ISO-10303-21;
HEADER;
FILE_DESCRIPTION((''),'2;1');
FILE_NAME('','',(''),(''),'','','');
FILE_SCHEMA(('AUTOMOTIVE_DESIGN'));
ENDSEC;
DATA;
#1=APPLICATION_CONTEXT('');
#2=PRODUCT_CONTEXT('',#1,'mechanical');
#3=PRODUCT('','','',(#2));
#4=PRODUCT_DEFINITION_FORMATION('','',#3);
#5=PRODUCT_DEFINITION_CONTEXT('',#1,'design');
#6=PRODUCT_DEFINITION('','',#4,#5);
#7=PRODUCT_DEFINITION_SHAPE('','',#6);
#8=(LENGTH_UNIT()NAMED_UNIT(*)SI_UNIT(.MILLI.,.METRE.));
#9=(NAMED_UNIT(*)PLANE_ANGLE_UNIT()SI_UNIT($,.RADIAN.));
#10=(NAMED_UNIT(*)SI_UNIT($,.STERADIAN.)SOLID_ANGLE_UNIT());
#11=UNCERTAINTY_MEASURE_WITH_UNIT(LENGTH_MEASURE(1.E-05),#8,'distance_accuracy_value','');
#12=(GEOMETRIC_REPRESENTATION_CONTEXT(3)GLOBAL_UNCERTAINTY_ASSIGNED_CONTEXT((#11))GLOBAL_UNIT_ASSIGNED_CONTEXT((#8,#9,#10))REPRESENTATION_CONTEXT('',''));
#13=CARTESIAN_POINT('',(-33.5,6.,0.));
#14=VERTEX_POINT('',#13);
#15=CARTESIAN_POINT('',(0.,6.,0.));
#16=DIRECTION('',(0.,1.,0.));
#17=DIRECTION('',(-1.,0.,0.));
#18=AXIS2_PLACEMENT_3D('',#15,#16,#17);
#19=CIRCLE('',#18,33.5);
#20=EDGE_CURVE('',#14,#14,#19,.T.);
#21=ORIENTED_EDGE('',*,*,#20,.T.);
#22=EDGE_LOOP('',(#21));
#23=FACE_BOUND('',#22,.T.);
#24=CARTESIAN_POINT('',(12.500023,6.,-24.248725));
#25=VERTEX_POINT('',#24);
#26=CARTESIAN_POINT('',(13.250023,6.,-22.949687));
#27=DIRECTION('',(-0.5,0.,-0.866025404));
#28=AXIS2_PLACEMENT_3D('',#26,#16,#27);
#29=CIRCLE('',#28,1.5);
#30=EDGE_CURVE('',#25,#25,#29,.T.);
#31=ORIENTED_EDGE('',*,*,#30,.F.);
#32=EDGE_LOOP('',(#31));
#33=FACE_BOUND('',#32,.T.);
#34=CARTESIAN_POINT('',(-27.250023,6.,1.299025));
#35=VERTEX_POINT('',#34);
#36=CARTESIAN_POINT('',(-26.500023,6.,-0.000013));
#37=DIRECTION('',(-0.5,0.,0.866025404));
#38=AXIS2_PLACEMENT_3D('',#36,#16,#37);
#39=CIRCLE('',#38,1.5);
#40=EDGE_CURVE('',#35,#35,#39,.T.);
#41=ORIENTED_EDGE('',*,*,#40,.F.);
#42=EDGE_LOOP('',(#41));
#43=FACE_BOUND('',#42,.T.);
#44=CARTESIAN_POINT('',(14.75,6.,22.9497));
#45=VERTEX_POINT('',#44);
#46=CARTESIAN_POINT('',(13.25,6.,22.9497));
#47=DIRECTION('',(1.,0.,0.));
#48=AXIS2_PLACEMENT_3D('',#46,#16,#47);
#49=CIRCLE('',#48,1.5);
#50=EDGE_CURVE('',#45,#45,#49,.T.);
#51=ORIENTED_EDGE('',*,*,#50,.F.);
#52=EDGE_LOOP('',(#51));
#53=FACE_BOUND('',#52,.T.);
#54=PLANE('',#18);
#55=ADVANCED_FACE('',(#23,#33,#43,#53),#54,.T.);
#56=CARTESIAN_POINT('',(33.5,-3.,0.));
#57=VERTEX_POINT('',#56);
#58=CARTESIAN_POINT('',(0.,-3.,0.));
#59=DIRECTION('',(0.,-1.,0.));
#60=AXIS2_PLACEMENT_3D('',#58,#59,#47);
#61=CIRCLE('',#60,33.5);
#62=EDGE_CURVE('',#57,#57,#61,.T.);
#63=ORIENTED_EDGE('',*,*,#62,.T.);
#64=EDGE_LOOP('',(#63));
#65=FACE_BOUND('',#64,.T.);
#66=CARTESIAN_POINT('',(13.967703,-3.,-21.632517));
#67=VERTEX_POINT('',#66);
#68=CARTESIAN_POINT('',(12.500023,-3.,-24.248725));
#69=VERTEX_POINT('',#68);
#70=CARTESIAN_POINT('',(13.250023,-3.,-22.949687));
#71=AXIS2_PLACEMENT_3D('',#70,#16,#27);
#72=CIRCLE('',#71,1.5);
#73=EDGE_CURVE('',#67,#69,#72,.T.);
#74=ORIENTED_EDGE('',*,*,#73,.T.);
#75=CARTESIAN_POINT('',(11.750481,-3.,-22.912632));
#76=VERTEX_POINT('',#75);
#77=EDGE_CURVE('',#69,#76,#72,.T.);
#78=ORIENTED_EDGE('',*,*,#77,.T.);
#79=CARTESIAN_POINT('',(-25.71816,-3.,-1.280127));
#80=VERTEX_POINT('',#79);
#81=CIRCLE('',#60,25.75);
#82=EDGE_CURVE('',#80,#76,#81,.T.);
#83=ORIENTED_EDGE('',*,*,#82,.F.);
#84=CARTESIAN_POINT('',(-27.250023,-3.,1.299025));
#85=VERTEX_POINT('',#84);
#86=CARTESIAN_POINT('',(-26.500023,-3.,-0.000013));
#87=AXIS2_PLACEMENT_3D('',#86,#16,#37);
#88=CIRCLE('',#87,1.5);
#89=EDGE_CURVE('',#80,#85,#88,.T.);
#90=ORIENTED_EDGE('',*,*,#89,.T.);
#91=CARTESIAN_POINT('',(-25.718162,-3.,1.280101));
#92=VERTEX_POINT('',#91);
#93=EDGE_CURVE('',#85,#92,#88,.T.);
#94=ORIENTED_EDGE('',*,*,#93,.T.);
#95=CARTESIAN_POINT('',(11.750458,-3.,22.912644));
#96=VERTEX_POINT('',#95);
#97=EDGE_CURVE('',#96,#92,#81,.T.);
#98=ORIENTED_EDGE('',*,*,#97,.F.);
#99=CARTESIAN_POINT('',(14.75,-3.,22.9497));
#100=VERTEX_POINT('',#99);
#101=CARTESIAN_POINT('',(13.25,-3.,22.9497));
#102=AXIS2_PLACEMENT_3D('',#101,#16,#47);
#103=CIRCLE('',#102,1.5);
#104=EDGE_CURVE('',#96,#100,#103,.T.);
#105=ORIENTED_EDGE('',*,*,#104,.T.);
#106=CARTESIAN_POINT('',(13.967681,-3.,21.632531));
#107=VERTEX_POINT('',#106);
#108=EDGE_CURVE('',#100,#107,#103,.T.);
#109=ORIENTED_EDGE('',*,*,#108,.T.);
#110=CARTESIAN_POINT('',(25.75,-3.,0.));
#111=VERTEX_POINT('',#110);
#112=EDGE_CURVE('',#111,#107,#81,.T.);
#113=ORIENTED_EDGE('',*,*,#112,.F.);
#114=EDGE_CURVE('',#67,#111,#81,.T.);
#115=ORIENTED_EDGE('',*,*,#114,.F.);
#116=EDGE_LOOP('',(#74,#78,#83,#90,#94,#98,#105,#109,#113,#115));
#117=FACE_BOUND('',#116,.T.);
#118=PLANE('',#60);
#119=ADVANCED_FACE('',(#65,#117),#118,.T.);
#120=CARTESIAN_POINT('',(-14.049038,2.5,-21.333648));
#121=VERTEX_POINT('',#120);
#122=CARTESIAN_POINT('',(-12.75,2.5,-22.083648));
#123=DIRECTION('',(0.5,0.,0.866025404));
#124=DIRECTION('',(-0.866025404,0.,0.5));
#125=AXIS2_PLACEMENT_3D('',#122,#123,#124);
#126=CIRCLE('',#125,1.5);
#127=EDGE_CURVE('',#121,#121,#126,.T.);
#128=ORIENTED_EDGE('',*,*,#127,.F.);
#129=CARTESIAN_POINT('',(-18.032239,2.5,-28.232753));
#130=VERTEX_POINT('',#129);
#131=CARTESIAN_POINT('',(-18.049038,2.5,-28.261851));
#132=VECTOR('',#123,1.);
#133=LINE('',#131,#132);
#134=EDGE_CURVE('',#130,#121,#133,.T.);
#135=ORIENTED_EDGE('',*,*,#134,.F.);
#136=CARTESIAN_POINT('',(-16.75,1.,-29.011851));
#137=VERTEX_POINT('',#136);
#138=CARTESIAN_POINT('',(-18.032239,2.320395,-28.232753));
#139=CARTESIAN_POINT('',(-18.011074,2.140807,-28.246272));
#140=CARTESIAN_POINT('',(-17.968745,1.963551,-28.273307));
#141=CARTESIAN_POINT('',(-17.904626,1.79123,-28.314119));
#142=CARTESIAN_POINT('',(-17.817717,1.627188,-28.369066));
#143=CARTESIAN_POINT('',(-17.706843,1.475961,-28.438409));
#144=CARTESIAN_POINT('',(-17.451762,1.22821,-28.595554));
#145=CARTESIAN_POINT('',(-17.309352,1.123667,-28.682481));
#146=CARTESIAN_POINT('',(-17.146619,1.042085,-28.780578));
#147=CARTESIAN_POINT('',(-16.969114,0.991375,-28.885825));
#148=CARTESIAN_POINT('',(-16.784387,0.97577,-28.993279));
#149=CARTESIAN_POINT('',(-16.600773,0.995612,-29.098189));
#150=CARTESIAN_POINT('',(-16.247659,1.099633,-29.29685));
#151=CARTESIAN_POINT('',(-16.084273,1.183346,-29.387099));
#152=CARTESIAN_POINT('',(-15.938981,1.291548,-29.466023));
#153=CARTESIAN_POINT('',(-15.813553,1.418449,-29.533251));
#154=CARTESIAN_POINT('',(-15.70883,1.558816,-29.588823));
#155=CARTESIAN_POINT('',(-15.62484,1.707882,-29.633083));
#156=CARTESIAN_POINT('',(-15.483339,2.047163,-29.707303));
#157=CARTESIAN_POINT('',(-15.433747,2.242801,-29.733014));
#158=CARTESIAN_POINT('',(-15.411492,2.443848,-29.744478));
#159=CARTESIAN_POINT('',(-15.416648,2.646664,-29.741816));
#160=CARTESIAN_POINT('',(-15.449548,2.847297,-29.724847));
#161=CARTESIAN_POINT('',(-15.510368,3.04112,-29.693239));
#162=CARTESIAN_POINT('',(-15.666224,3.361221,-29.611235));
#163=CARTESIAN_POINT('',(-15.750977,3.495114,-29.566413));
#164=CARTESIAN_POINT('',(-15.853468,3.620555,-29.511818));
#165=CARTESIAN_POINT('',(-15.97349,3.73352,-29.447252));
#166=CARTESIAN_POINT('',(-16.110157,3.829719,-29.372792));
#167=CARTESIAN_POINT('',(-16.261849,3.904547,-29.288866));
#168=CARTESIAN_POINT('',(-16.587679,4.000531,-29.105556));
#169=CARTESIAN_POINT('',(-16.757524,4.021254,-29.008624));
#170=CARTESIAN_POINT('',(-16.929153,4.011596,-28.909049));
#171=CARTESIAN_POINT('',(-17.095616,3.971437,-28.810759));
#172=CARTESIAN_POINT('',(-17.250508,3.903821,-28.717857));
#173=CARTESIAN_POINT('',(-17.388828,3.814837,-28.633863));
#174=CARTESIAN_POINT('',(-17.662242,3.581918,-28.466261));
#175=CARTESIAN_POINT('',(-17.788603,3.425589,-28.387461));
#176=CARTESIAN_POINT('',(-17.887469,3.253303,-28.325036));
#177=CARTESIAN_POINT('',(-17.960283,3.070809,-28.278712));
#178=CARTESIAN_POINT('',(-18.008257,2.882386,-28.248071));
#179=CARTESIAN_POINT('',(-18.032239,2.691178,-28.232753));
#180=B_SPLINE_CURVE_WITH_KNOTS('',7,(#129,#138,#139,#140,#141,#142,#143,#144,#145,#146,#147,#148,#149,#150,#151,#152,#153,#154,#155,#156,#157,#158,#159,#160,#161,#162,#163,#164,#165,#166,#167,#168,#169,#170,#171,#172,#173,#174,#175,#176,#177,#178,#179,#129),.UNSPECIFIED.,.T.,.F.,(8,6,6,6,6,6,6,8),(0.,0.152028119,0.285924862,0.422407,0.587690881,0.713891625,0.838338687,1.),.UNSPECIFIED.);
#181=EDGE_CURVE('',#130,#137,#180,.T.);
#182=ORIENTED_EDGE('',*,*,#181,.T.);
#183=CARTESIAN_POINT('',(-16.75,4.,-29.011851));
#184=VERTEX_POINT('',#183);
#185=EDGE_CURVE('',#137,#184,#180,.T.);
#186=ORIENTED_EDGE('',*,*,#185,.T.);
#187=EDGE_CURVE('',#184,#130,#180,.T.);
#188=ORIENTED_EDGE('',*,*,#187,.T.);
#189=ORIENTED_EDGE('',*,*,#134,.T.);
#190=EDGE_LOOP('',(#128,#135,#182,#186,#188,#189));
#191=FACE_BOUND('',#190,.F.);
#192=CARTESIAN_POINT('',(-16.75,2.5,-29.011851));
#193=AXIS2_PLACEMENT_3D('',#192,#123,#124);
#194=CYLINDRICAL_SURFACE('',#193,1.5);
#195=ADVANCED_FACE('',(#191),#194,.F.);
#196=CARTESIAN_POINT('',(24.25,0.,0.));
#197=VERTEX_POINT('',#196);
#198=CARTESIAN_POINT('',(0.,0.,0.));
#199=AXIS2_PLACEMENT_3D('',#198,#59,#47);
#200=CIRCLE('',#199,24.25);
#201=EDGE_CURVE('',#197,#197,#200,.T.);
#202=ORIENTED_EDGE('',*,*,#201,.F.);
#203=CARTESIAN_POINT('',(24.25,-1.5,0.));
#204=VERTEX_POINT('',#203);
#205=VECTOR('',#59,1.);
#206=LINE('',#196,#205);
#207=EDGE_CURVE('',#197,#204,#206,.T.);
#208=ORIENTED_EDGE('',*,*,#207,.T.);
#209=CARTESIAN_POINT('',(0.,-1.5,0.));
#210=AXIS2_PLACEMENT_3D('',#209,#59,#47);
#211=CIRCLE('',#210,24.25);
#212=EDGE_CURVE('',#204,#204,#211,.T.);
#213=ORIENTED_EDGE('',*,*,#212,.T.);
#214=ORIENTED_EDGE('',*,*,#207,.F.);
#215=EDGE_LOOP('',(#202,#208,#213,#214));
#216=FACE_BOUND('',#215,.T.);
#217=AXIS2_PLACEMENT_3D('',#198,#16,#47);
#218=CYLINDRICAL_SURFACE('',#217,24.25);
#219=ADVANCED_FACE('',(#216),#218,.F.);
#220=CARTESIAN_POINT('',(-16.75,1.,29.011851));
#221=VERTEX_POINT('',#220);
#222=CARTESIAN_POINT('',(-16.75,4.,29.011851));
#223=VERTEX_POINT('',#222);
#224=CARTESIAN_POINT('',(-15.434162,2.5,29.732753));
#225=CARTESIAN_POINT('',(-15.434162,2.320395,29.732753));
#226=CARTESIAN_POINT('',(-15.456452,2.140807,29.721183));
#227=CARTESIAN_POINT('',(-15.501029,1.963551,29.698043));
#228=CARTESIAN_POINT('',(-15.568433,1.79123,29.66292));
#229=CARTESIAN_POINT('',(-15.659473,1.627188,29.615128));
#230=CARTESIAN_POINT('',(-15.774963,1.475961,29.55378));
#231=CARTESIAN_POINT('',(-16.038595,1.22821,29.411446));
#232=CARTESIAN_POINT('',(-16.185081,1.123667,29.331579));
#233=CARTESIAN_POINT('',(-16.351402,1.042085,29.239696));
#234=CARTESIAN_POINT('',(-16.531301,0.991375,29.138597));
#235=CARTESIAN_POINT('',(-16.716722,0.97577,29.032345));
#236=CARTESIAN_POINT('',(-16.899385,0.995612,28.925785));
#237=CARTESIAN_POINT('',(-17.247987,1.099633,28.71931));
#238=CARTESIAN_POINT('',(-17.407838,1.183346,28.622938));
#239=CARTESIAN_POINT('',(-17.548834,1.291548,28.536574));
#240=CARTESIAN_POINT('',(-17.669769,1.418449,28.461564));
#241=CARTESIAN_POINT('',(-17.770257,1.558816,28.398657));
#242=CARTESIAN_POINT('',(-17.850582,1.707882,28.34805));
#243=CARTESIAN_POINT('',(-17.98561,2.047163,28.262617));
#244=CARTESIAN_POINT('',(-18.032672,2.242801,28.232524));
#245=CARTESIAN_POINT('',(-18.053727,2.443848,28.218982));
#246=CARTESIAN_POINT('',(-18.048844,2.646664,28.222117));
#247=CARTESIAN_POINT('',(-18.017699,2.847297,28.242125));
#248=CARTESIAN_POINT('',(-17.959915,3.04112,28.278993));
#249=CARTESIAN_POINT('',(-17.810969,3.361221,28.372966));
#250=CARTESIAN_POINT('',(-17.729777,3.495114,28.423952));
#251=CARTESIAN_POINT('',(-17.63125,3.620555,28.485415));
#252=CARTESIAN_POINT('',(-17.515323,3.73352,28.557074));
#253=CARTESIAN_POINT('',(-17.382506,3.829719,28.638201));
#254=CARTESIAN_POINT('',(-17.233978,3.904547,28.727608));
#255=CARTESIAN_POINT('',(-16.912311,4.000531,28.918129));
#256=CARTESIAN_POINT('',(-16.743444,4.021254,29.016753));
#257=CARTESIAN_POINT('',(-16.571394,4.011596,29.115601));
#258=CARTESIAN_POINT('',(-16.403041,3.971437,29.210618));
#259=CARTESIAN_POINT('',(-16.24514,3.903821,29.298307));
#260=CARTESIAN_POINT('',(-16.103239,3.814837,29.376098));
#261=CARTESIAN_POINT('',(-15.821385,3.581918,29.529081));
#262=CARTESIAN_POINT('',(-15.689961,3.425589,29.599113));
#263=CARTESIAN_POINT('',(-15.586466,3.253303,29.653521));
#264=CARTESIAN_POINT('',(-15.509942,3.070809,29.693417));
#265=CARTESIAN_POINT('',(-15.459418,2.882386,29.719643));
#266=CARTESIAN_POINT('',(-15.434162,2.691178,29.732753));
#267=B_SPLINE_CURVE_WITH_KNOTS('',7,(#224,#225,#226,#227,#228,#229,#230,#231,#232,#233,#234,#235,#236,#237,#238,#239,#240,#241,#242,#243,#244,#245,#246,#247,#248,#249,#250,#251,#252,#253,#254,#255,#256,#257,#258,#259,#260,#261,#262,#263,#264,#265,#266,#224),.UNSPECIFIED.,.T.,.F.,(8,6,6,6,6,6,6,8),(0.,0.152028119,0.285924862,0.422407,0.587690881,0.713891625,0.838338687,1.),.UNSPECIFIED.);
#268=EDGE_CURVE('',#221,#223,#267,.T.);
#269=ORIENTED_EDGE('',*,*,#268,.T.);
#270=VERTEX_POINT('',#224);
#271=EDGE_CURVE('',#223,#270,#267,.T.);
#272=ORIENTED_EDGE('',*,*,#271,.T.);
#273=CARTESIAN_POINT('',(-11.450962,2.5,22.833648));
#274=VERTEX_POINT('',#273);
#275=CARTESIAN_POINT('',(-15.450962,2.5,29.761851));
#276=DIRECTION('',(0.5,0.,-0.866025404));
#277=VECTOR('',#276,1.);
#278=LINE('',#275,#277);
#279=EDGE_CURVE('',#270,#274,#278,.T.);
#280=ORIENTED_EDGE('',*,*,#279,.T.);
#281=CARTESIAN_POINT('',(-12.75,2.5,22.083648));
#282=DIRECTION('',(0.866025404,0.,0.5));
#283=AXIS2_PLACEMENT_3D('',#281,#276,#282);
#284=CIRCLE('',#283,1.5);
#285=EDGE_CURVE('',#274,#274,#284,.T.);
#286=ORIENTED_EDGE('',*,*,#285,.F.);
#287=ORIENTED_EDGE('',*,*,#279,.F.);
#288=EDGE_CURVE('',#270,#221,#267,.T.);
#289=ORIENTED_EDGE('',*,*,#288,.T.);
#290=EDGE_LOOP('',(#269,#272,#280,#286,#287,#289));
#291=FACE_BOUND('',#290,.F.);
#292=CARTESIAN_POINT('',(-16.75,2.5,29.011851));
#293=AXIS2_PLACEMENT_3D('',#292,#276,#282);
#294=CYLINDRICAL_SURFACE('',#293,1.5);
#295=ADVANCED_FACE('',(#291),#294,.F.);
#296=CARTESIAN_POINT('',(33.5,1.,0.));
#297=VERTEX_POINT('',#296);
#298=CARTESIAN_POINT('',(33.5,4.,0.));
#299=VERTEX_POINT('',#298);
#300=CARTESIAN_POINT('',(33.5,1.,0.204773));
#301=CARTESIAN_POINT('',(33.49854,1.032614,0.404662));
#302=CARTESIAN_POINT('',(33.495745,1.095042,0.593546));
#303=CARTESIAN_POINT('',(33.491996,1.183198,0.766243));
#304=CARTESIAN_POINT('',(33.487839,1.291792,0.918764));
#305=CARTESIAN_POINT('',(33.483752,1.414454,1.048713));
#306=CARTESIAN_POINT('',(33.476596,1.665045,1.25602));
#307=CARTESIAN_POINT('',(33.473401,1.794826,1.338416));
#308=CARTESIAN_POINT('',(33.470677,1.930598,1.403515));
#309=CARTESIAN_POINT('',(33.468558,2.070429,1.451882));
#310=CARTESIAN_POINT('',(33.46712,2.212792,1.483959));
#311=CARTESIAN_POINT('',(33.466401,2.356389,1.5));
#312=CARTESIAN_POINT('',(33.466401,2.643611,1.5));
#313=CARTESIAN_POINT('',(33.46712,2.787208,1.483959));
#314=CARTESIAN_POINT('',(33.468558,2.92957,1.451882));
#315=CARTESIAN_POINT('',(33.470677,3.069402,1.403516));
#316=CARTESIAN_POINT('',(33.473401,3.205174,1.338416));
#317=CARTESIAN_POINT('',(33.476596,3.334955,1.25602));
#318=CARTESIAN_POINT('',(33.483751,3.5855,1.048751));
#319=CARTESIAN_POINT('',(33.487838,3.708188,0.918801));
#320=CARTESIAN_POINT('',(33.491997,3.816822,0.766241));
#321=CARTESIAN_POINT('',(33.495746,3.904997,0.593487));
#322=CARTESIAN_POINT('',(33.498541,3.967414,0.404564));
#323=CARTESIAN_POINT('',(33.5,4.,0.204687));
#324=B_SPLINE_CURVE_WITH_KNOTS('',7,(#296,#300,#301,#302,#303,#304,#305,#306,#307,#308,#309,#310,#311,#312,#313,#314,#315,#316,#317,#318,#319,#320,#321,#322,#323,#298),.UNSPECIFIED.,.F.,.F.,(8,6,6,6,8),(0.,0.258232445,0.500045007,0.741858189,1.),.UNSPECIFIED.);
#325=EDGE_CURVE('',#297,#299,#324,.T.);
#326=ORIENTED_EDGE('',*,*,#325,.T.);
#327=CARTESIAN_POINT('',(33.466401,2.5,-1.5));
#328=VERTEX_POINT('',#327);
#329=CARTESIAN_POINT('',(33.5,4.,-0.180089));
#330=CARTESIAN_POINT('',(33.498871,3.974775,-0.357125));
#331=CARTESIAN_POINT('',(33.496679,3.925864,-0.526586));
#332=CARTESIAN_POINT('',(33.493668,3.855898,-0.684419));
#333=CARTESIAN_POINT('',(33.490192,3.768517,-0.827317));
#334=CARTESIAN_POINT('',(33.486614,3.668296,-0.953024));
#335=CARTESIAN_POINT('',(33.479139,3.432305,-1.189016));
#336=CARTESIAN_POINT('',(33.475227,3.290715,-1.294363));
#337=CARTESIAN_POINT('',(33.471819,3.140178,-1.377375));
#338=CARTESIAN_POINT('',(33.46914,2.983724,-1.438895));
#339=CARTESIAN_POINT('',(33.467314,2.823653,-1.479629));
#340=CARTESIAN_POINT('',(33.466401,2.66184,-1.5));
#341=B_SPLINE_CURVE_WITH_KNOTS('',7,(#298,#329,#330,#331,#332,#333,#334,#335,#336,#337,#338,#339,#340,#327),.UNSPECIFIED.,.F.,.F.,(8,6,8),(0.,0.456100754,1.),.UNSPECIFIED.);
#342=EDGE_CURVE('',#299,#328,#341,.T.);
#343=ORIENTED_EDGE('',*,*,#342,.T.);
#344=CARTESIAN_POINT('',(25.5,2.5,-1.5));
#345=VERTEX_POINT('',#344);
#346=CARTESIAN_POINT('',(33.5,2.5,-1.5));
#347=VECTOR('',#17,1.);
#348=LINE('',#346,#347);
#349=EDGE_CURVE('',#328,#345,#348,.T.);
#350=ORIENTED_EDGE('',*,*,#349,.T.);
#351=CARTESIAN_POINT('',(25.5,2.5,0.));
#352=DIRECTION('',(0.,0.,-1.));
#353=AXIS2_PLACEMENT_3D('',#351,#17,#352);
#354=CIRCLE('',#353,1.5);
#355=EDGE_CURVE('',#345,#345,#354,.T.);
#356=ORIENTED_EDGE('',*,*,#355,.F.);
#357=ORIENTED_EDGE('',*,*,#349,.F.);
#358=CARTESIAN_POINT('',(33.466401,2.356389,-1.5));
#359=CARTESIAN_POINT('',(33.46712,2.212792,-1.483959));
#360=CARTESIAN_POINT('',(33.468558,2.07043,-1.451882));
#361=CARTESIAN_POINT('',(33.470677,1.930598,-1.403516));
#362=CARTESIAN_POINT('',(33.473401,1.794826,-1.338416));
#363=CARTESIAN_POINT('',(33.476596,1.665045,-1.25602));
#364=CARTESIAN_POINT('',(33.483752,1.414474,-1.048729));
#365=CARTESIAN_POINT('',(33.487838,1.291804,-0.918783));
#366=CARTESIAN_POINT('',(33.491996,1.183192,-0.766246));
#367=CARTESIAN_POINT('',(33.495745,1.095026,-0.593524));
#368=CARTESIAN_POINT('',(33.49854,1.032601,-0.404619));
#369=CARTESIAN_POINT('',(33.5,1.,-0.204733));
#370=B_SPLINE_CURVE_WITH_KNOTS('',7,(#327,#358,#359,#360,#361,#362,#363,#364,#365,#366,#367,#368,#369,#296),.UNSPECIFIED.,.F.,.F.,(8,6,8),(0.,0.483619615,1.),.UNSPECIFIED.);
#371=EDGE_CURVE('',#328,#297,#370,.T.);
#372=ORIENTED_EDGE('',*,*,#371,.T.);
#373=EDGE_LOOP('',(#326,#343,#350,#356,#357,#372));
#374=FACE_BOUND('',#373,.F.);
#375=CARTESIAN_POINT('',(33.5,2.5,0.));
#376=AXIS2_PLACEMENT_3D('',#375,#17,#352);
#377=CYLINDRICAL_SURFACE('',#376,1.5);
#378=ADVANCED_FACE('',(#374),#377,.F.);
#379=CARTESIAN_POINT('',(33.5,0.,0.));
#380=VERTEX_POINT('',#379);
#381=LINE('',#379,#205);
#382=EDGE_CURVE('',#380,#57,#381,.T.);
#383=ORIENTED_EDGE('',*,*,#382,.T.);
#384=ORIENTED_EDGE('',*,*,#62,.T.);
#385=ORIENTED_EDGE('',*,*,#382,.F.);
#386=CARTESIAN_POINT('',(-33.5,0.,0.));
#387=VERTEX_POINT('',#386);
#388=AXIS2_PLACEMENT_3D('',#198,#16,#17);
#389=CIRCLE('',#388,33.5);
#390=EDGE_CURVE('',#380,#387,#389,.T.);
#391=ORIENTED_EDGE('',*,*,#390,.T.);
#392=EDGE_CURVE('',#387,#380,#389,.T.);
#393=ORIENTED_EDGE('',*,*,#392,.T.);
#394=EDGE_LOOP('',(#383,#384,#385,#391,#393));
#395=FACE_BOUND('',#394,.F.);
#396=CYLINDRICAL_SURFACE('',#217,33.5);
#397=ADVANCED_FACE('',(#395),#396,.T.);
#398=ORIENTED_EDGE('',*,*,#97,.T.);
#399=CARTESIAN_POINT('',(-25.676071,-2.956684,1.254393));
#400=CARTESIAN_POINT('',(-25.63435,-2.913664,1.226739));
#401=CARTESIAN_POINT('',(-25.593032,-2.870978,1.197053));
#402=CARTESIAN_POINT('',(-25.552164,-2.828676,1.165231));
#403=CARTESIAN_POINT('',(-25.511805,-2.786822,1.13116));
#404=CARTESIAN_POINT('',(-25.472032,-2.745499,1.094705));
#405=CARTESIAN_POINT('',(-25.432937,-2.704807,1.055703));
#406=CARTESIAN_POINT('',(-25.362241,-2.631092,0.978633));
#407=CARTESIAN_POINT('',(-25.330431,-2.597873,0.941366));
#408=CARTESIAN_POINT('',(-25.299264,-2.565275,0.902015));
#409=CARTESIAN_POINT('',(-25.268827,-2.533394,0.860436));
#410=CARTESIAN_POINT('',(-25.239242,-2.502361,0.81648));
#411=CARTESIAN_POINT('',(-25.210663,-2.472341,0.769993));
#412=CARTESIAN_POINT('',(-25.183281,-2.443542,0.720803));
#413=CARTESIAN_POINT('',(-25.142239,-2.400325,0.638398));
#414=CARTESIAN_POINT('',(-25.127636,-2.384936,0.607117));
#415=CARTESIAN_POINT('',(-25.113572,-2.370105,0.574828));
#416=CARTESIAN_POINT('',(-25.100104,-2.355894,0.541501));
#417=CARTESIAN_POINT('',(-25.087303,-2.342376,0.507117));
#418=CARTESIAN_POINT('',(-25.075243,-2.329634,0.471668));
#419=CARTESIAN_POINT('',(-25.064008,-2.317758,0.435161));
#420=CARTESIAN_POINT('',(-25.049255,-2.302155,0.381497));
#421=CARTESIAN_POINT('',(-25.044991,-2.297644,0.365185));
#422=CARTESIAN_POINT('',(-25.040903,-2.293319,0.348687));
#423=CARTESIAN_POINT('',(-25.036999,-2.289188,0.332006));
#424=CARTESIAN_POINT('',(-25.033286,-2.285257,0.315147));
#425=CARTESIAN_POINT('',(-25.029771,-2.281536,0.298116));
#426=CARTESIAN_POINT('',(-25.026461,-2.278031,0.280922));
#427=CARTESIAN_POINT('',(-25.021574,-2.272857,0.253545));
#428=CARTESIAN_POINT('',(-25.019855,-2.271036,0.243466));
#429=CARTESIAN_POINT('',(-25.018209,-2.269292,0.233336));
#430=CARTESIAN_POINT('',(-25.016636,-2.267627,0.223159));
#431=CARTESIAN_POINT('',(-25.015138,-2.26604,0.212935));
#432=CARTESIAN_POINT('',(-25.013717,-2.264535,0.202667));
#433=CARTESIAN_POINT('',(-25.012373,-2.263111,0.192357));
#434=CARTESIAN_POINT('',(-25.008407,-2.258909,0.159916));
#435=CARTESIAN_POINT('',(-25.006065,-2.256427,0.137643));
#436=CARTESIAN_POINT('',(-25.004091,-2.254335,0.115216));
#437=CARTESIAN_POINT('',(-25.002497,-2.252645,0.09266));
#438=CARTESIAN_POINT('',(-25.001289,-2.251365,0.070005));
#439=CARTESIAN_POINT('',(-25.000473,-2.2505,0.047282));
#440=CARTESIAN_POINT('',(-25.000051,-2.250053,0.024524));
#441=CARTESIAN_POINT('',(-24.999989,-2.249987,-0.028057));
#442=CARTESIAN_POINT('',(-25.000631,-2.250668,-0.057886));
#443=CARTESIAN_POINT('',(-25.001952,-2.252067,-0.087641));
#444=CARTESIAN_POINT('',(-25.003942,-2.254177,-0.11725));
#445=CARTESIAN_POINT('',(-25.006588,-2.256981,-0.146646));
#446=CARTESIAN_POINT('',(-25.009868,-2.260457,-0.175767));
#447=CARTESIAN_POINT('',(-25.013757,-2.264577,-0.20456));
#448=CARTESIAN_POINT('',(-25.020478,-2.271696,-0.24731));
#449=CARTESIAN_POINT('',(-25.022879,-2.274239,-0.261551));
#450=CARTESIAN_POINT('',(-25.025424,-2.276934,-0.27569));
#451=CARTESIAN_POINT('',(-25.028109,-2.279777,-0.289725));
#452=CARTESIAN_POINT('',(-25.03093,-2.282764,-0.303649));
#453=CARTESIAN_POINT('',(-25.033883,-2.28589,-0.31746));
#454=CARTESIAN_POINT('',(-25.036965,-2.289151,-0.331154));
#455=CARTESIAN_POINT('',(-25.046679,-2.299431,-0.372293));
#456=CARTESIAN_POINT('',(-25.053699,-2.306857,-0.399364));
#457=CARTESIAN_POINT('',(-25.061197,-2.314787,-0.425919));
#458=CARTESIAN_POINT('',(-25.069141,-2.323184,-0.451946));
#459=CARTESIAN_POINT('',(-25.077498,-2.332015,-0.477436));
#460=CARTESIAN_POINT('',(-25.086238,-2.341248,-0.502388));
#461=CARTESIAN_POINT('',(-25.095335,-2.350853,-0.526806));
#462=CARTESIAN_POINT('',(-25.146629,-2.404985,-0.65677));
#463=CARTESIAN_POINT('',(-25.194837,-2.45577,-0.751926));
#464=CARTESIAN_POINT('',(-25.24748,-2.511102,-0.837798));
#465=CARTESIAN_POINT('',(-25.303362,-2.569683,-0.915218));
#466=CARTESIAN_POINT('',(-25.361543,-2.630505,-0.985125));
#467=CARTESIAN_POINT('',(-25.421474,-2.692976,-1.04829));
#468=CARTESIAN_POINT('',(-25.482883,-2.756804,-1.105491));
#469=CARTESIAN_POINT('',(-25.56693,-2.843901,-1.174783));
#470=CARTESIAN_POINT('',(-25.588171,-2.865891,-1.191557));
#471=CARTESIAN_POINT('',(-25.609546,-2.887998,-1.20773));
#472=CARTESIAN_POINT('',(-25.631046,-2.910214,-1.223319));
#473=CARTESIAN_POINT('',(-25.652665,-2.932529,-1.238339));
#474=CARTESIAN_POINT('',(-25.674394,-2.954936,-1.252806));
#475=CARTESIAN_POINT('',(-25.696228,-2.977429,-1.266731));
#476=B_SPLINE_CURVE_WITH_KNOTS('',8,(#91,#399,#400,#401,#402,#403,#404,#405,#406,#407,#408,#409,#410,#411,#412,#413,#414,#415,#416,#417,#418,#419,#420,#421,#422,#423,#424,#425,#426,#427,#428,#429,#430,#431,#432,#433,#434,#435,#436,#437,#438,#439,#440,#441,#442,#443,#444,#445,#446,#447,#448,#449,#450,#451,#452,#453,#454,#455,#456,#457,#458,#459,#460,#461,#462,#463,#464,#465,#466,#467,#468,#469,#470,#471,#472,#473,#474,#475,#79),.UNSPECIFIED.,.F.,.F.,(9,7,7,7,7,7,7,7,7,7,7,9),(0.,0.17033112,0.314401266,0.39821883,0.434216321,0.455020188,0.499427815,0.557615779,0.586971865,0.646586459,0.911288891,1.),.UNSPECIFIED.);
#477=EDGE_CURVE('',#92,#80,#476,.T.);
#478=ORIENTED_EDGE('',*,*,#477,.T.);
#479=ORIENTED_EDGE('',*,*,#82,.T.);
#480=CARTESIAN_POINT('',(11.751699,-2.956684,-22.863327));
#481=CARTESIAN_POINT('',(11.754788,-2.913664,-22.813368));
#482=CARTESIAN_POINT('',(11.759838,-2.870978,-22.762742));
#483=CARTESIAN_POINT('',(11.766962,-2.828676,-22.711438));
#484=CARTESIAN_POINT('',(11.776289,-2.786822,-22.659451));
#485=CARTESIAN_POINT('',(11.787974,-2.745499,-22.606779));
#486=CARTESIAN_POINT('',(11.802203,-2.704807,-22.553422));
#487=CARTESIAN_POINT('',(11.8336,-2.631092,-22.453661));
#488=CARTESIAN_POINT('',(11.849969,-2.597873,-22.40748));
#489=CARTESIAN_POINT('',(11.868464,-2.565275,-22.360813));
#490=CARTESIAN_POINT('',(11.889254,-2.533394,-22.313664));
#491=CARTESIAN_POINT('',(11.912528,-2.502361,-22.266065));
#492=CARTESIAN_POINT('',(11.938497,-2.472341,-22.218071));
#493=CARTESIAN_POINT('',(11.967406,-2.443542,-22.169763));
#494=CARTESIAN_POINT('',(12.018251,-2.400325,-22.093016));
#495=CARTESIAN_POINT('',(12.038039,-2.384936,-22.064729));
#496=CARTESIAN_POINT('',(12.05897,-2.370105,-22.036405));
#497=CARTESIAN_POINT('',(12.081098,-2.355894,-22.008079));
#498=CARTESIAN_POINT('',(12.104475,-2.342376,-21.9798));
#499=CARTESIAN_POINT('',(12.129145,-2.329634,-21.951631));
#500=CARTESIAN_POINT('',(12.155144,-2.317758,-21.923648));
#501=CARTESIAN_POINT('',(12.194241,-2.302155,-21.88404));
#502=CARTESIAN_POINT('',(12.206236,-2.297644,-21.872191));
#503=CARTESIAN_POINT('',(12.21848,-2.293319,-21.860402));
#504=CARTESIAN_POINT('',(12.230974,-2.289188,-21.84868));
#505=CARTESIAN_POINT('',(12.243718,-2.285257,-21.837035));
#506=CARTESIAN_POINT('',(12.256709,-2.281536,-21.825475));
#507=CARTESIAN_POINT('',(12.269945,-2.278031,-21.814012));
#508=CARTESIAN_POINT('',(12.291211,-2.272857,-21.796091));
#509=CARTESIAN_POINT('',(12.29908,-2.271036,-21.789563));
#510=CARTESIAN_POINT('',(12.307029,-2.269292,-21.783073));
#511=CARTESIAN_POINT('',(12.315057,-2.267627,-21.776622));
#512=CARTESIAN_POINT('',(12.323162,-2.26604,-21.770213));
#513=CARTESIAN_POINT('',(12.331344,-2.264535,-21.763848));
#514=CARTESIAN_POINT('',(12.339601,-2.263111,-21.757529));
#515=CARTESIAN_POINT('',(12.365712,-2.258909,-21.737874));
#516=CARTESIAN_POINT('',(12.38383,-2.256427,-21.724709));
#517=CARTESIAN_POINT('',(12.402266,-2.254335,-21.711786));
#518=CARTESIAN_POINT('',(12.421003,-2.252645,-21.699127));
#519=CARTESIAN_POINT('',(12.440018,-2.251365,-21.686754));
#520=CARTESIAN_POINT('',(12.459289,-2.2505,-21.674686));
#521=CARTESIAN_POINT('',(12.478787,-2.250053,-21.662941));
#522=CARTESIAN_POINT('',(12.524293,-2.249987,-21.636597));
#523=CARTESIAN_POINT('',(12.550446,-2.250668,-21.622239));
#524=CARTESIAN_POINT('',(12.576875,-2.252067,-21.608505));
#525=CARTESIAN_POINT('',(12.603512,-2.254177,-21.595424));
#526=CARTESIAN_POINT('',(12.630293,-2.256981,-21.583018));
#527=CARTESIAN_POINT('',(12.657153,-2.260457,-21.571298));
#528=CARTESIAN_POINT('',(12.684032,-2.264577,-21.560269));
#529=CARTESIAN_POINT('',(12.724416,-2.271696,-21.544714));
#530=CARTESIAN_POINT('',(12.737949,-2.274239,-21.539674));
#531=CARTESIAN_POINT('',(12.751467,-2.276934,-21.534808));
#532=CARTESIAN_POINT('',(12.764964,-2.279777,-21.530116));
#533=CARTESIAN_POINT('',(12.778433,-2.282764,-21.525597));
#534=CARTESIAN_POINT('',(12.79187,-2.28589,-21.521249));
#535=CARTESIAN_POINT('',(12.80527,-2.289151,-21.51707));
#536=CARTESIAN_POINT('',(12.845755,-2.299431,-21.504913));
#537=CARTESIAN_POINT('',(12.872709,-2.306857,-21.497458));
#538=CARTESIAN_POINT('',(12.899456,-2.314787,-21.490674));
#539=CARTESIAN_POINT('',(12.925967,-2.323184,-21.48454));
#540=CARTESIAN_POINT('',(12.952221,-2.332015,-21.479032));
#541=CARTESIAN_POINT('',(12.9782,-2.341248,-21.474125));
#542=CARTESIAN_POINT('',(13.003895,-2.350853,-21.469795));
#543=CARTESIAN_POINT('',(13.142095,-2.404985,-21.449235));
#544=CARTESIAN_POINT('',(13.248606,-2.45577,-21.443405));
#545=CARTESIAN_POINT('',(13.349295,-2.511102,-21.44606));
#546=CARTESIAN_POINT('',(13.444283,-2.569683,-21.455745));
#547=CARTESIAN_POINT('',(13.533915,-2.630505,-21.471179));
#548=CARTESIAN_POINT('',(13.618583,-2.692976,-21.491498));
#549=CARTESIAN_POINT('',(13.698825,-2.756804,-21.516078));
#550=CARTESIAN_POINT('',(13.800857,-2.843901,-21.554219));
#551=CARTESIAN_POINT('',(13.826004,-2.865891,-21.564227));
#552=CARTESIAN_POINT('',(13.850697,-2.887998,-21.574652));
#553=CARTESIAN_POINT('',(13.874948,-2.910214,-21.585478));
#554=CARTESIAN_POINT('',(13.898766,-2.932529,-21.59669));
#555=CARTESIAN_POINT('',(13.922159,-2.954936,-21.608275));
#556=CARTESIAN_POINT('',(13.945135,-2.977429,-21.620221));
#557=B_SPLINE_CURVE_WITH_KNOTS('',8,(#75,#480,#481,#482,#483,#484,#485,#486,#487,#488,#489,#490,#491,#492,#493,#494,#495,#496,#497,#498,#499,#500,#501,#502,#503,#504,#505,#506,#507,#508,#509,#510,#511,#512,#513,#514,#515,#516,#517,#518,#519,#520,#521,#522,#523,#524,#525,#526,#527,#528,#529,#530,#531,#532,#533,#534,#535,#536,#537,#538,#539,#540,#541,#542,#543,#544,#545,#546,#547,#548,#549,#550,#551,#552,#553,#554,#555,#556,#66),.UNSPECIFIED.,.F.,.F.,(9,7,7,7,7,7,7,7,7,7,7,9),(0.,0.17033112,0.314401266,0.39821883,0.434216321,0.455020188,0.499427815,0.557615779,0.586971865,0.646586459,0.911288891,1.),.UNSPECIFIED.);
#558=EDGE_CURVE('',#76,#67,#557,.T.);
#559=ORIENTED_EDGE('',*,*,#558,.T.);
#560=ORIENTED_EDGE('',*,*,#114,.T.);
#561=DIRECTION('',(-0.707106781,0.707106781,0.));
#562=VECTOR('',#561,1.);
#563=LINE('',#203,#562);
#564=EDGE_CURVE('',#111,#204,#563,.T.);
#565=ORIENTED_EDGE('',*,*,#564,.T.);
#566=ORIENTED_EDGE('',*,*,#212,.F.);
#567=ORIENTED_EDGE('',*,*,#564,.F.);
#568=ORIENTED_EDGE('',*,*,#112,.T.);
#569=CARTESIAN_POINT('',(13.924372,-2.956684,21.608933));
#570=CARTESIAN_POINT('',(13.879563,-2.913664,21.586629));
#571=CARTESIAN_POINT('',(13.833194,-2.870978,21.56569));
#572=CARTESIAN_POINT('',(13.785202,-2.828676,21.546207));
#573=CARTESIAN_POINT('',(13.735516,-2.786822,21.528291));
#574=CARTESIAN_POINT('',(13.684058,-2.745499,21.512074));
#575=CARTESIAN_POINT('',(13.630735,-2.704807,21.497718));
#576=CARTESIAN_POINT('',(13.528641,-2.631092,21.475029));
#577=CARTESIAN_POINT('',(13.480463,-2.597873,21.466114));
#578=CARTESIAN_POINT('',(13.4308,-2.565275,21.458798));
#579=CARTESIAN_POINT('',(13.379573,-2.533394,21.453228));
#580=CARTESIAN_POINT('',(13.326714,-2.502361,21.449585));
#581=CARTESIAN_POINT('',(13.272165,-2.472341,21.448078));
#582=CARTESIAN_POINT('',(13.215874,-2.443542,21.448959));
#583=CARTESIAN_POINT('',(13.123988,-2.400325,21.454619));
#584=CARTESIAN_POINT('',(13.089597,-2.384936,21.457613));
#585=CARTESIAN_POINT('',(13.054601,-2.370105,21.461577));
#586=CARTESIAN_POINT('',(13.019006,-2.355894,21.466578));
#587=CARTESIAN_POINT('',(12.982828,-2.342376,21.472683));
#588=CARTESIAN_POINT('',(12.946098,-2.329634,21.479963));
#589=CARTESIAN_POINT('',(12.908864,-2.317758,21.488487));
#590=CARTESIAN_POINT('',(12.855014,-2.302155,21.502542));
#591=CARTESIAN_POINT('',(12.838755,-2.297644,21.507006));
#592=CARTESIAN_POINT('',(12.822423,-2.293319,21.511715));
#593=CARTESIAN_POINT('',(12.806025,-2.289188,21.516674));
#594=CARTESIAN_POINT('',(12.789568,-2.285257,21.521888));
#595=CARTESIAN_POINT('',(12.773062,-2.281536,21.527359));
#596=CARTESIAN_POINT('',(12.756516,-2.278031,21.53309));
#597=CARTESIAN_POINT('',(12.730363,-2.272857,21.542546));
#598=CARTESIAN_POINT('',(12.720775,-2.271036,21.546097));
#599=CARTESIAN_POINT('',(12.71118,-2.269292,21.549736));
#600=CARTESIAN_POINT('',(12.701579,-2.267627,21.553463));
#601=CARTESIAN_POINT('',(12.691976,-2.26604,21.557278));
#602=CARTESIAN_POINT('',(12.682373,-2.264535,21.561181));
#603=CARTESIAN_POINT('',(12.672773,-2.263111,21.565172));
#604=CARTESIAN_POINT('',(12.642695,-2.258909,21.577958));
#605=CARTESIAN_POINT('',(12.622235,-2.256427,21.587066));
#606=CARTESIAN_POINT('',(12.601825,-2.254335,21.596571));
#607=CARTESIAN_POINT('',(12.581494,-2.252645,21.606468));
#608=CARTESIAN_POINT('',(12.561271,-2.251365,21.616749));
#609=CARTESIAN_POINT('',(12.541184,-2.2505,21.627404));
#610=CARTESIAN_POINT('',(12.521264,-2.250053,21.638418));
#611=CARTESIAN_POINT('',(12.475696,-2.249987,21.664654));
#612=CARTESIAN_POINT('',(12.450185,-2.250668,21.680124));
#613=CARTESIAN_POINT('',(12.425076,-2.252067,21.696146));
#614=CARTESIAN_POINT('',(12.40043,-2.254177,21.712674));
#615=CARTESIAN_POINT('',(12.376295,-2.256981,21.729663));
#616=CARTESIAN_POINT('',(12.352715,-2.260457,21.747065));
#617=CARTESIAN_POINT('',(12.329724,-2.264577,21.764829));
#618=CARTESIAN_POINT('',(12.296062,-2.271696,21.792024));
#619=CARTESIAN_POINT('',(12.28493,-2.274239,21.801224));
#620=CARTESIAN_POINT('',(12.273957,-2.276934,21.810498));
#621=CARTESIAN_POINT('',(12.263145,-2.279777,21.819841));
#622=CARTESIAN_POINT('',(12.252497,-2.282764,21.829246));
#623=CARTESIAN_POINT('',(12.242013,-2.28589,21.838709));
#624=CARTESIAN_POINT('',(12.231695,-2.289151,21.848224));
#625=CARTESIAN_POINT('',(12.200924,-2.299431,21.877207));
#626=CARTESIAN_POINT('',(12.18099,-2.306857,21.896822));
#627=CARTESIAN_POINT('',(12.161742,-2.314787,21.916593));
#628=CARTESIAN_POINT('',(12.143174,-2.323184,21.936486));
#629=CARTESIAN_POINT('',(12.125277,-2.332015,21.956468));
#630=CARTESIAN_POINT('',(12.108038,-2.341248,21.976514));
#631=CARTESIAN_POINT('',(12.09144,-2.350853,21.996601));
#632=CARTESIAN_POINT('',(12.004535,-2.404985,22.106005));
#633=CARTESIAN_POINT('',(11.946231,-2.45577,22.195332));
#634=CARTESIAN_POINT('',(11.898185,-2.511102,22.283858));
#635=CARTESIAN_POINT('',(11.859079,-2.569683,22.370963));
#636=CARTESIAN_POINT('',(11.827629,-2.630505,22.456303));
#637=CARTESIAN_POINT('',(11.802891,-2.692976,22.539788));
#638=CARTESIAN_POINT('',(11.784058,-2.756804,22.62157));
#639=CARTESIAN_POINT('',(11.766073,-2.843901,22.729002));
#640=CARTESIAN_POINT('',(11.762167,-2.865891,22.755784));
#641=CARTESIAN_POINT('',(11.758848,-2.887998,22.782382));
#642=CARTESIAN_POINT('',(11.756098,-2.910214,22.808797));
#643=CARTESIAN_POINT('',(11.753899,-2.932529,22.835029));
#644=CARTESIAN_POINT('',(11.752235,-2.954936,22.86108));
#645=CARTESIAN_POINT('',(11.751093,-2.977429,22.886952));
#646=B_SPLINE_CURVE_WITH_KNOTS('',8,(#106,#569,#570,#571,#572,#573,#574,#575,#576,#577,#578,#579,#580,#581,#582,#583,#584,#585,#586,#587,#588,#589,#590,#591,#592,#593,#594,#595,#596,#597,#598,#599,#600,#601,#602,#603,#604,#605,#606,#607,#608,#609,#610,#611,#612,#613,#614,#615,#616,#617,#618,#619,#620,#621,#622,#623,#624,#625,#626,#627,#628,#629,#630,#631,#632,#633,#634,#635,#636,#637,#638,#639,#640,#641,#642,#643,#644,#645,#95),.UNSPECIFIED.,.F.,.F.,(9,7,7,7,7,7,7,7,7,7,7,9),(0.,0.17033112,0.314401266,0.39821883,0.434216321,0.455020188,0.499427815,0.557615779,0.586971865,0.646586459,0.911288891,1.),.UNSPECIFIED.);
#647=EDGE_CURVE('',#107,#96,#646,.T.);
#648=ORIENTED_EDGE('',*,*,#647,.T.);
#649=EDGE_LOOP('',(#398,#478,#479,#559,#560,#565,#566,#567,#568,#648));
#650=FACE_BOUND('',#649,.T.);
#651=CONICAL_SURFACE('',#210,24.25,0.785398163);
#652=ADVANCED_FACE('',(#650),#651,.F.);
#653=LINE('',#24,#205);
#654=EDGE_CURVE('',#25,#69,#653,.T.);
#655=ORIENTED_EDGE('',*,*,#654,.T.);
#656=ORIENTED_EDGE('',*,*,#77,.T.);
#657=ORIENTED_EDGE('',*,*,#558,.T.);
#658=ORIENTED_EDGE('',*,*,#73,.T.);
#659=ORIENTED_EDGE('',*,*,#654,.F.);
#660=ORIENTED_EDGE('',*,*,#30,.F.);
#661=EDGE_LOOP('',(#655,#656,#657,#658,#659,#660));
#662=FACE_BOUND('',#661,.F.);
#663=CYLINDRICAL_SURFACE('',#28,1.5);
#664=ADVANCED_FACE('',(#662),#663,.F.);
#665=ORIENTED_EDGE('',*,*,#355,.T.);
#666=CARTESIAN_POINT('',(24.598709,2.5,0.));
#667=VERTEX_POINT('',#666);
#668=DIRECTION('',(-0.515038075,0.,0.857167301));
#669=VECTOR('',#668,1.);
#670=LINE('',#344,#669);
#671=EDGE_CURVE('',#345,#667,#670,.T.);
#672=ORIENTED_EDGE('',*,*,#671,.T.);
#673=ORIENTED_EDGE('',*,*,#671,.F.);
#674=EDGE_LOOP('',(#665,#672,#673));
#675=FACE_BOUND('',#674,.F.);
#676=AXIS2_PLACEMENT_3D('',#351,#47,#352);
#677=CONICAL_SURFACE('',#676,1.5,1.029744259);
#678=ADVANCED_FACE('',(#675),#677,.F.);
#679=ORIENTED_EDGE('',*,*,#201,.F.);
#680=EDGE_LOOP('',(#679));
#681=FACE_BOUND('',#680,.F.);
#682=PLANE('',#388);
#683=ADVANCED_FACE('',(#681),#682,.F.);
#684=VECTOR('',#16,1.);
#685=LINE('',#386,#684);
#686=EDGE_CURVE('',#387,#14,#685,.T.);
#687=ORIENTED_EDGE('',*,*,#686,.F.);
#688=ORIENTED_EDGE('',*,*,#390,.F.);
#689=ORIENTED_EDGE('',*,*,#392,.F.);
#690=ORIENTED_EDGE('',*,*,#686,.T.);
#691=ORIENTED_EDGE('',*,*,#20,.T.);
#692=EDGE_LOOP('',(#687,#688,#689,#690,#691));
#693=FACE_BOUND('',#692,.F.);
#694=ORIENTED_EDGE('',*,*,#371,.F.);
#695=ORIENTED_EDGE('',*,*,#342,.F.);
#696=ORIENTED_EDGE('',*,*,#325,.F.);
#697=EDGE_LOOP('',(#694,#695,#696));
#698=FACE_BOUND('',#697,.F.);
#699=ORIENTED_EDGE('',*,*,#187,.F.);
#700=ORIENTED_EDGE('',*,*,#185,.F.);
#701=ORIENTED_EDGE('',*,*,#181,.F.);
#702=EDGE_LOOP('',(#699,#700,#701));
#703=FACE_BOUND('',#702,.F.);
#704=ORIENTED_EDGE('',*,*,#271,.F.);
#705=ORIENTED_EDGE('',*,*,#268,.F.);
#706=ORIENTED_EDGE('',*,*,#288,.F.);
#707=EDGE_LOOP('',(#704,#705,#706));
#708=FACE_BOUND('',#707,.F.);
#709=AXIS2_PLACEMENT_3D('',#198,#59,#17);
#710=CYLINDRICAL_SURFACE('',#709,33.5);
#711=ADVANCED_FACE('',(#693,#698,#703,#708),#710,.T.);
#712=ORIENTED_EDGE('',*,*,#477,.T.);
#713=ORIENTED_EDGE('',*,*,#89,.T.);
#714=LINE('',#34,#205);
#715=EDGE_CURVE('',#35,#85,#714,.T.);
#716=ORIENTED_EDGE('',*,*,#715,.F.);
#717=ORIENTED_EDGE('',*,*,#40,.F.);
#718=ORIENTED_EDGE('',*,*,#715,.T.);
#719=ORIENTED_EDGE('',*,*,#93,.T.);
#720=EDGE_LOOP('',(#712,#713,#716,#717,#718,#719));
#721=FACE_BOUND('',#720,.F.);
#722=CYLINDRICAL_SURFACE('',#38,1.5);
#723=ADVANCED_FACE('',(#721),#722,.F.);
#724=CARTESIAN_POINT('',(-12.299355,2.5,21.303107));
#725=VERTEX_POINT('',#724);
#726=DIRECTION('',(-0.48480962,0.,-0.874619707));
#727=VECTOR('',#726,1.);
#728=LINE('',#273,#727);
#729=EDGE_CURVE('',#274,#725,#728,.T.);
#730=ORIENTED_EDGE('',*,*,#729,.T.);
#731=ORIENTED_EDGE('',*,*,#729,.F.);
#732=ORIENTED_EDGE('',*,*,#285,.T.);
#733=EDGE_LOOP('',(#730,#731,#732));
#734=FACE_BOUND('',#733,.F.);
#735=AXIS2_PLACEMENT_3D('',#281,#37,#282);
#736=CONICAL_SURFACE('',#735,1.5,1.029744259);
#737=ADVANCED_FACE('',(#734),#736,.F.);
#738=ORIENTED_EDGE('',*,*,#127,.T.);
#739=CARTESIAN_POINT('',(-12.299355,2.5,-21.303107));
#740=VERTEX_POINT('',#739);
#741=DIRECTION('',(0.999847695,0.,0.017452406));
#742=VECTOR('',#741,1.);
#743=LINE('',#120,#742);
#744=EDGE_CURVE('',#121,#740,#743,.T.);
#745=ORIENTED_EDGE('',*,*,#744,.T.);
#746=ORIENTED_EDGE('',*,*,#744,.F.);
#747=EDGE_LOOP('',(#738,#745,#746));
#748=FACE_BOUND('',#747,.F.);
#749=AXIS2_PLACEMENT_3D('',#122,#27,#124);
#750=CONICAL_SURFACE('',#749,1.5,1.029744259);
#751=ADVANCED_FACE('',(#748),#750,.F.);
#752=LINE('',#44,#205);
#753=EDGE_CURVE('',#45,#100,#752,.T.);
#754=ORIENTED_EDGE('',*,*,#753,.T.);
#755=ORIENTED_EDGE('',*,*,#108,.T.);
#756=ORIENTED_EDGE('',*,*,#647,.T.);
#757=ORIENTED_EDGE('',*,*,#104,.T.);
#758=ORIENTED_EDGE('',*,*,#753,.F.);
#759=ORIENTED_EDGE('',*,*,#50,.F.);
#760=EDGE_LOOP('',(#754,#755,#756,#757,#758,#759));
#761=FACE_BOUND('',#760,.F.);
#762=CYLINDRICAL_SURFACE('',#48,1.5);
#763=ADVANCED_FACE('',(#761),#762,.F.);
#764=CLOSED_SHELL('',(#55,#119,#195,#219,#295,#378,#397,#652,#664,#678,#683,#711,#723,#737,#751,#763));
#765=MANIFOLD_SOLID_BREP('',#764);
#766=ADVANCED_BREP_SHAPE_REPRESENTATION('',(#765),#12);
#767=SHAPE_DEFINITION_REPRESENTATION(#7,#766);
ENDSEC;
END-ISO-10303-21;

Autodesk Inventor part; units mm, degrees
ref_plane "XZ Plane" through (0, 0, 0) normal (0, 1, 0) x (-1, 0, 0)
ref_plane "XY Plane" through (0, 0, 0) normal (0, 0, 1) x (1, 0, 0)
sketch "Sketch1" plane through (0, 0, 0) normal (0, 1, 0) x (-1, 0, 0)
  circle A0 centre (0, 0) radius 33.5
  dimension "d0" = 67
extrude "Extrusion1" add sketch "Sketch1" along normal blind 6
ref_plane "Work Plane1" through (33.5, 0, 0) normal (1, 0, 0) x (0, 1, 0)
sketch "Sketch6" plane through (33.5, 0, 0) normal (1, 0, 0) x (0, 1, 0)
  line L0 (0, -33.5) -> (0, 33.5) projected
  point P0 (0, 0)
  point P1 (2.5, 0)
  dimension "d47" = 2.5
hole "Hole4" at (33.5, 2.5, 0) direction (-1, 0, 0) diameter 3 depth 8 tip angle 118
pattern_circular "Circular Pattern3" count 3 over 360 about axis through (0, 0, 0) along (0, 1, 0) of "Hole4"
sketch "Sketch7" plane through (0, 0, 0) normal (0, -1, 0) x (1, 0, 0)
  circle A0 centre (0, 0) radius 24.25
  circle A1 centre (0, 0) radius 33.5
  dimension "d58" = 48.5
  dimension "d59" = 67
extrude "Extrusion3" add sketch "Sketch7" along normal blind 3
chamfer "Chamfer1" distance 1.5 angle 45 1 edges at (-24.25, -3, 0)
sketch "Sketch8" plane through (0, 6, 0) normal (0, 1, 0) x (1, 0, 0)
  circle A0 centre (13.25, -22.9497) radius 1.5
  circle A1 centre (0, 0) radius 33.5 construction
  line L0 (0, 0) -> (13.25, -22.9497) construction
  line L1 (0, 0) -> (33.5, 0) construction
  dimension "d65" = 3
  dimension "d66" = 26.5
  dimension "d67" = 60
extrude "Extrusion4" cut sketch "Sketch8" against normal blind 10
pattern_circular "Circular Pattern4" count 3 over 360 about axis through (0, 0, 0) along (0, 1, 0) of "Extrusion4"
properties part number "Engine bulkhead" material "Steel AISI 1006 85 HR"
